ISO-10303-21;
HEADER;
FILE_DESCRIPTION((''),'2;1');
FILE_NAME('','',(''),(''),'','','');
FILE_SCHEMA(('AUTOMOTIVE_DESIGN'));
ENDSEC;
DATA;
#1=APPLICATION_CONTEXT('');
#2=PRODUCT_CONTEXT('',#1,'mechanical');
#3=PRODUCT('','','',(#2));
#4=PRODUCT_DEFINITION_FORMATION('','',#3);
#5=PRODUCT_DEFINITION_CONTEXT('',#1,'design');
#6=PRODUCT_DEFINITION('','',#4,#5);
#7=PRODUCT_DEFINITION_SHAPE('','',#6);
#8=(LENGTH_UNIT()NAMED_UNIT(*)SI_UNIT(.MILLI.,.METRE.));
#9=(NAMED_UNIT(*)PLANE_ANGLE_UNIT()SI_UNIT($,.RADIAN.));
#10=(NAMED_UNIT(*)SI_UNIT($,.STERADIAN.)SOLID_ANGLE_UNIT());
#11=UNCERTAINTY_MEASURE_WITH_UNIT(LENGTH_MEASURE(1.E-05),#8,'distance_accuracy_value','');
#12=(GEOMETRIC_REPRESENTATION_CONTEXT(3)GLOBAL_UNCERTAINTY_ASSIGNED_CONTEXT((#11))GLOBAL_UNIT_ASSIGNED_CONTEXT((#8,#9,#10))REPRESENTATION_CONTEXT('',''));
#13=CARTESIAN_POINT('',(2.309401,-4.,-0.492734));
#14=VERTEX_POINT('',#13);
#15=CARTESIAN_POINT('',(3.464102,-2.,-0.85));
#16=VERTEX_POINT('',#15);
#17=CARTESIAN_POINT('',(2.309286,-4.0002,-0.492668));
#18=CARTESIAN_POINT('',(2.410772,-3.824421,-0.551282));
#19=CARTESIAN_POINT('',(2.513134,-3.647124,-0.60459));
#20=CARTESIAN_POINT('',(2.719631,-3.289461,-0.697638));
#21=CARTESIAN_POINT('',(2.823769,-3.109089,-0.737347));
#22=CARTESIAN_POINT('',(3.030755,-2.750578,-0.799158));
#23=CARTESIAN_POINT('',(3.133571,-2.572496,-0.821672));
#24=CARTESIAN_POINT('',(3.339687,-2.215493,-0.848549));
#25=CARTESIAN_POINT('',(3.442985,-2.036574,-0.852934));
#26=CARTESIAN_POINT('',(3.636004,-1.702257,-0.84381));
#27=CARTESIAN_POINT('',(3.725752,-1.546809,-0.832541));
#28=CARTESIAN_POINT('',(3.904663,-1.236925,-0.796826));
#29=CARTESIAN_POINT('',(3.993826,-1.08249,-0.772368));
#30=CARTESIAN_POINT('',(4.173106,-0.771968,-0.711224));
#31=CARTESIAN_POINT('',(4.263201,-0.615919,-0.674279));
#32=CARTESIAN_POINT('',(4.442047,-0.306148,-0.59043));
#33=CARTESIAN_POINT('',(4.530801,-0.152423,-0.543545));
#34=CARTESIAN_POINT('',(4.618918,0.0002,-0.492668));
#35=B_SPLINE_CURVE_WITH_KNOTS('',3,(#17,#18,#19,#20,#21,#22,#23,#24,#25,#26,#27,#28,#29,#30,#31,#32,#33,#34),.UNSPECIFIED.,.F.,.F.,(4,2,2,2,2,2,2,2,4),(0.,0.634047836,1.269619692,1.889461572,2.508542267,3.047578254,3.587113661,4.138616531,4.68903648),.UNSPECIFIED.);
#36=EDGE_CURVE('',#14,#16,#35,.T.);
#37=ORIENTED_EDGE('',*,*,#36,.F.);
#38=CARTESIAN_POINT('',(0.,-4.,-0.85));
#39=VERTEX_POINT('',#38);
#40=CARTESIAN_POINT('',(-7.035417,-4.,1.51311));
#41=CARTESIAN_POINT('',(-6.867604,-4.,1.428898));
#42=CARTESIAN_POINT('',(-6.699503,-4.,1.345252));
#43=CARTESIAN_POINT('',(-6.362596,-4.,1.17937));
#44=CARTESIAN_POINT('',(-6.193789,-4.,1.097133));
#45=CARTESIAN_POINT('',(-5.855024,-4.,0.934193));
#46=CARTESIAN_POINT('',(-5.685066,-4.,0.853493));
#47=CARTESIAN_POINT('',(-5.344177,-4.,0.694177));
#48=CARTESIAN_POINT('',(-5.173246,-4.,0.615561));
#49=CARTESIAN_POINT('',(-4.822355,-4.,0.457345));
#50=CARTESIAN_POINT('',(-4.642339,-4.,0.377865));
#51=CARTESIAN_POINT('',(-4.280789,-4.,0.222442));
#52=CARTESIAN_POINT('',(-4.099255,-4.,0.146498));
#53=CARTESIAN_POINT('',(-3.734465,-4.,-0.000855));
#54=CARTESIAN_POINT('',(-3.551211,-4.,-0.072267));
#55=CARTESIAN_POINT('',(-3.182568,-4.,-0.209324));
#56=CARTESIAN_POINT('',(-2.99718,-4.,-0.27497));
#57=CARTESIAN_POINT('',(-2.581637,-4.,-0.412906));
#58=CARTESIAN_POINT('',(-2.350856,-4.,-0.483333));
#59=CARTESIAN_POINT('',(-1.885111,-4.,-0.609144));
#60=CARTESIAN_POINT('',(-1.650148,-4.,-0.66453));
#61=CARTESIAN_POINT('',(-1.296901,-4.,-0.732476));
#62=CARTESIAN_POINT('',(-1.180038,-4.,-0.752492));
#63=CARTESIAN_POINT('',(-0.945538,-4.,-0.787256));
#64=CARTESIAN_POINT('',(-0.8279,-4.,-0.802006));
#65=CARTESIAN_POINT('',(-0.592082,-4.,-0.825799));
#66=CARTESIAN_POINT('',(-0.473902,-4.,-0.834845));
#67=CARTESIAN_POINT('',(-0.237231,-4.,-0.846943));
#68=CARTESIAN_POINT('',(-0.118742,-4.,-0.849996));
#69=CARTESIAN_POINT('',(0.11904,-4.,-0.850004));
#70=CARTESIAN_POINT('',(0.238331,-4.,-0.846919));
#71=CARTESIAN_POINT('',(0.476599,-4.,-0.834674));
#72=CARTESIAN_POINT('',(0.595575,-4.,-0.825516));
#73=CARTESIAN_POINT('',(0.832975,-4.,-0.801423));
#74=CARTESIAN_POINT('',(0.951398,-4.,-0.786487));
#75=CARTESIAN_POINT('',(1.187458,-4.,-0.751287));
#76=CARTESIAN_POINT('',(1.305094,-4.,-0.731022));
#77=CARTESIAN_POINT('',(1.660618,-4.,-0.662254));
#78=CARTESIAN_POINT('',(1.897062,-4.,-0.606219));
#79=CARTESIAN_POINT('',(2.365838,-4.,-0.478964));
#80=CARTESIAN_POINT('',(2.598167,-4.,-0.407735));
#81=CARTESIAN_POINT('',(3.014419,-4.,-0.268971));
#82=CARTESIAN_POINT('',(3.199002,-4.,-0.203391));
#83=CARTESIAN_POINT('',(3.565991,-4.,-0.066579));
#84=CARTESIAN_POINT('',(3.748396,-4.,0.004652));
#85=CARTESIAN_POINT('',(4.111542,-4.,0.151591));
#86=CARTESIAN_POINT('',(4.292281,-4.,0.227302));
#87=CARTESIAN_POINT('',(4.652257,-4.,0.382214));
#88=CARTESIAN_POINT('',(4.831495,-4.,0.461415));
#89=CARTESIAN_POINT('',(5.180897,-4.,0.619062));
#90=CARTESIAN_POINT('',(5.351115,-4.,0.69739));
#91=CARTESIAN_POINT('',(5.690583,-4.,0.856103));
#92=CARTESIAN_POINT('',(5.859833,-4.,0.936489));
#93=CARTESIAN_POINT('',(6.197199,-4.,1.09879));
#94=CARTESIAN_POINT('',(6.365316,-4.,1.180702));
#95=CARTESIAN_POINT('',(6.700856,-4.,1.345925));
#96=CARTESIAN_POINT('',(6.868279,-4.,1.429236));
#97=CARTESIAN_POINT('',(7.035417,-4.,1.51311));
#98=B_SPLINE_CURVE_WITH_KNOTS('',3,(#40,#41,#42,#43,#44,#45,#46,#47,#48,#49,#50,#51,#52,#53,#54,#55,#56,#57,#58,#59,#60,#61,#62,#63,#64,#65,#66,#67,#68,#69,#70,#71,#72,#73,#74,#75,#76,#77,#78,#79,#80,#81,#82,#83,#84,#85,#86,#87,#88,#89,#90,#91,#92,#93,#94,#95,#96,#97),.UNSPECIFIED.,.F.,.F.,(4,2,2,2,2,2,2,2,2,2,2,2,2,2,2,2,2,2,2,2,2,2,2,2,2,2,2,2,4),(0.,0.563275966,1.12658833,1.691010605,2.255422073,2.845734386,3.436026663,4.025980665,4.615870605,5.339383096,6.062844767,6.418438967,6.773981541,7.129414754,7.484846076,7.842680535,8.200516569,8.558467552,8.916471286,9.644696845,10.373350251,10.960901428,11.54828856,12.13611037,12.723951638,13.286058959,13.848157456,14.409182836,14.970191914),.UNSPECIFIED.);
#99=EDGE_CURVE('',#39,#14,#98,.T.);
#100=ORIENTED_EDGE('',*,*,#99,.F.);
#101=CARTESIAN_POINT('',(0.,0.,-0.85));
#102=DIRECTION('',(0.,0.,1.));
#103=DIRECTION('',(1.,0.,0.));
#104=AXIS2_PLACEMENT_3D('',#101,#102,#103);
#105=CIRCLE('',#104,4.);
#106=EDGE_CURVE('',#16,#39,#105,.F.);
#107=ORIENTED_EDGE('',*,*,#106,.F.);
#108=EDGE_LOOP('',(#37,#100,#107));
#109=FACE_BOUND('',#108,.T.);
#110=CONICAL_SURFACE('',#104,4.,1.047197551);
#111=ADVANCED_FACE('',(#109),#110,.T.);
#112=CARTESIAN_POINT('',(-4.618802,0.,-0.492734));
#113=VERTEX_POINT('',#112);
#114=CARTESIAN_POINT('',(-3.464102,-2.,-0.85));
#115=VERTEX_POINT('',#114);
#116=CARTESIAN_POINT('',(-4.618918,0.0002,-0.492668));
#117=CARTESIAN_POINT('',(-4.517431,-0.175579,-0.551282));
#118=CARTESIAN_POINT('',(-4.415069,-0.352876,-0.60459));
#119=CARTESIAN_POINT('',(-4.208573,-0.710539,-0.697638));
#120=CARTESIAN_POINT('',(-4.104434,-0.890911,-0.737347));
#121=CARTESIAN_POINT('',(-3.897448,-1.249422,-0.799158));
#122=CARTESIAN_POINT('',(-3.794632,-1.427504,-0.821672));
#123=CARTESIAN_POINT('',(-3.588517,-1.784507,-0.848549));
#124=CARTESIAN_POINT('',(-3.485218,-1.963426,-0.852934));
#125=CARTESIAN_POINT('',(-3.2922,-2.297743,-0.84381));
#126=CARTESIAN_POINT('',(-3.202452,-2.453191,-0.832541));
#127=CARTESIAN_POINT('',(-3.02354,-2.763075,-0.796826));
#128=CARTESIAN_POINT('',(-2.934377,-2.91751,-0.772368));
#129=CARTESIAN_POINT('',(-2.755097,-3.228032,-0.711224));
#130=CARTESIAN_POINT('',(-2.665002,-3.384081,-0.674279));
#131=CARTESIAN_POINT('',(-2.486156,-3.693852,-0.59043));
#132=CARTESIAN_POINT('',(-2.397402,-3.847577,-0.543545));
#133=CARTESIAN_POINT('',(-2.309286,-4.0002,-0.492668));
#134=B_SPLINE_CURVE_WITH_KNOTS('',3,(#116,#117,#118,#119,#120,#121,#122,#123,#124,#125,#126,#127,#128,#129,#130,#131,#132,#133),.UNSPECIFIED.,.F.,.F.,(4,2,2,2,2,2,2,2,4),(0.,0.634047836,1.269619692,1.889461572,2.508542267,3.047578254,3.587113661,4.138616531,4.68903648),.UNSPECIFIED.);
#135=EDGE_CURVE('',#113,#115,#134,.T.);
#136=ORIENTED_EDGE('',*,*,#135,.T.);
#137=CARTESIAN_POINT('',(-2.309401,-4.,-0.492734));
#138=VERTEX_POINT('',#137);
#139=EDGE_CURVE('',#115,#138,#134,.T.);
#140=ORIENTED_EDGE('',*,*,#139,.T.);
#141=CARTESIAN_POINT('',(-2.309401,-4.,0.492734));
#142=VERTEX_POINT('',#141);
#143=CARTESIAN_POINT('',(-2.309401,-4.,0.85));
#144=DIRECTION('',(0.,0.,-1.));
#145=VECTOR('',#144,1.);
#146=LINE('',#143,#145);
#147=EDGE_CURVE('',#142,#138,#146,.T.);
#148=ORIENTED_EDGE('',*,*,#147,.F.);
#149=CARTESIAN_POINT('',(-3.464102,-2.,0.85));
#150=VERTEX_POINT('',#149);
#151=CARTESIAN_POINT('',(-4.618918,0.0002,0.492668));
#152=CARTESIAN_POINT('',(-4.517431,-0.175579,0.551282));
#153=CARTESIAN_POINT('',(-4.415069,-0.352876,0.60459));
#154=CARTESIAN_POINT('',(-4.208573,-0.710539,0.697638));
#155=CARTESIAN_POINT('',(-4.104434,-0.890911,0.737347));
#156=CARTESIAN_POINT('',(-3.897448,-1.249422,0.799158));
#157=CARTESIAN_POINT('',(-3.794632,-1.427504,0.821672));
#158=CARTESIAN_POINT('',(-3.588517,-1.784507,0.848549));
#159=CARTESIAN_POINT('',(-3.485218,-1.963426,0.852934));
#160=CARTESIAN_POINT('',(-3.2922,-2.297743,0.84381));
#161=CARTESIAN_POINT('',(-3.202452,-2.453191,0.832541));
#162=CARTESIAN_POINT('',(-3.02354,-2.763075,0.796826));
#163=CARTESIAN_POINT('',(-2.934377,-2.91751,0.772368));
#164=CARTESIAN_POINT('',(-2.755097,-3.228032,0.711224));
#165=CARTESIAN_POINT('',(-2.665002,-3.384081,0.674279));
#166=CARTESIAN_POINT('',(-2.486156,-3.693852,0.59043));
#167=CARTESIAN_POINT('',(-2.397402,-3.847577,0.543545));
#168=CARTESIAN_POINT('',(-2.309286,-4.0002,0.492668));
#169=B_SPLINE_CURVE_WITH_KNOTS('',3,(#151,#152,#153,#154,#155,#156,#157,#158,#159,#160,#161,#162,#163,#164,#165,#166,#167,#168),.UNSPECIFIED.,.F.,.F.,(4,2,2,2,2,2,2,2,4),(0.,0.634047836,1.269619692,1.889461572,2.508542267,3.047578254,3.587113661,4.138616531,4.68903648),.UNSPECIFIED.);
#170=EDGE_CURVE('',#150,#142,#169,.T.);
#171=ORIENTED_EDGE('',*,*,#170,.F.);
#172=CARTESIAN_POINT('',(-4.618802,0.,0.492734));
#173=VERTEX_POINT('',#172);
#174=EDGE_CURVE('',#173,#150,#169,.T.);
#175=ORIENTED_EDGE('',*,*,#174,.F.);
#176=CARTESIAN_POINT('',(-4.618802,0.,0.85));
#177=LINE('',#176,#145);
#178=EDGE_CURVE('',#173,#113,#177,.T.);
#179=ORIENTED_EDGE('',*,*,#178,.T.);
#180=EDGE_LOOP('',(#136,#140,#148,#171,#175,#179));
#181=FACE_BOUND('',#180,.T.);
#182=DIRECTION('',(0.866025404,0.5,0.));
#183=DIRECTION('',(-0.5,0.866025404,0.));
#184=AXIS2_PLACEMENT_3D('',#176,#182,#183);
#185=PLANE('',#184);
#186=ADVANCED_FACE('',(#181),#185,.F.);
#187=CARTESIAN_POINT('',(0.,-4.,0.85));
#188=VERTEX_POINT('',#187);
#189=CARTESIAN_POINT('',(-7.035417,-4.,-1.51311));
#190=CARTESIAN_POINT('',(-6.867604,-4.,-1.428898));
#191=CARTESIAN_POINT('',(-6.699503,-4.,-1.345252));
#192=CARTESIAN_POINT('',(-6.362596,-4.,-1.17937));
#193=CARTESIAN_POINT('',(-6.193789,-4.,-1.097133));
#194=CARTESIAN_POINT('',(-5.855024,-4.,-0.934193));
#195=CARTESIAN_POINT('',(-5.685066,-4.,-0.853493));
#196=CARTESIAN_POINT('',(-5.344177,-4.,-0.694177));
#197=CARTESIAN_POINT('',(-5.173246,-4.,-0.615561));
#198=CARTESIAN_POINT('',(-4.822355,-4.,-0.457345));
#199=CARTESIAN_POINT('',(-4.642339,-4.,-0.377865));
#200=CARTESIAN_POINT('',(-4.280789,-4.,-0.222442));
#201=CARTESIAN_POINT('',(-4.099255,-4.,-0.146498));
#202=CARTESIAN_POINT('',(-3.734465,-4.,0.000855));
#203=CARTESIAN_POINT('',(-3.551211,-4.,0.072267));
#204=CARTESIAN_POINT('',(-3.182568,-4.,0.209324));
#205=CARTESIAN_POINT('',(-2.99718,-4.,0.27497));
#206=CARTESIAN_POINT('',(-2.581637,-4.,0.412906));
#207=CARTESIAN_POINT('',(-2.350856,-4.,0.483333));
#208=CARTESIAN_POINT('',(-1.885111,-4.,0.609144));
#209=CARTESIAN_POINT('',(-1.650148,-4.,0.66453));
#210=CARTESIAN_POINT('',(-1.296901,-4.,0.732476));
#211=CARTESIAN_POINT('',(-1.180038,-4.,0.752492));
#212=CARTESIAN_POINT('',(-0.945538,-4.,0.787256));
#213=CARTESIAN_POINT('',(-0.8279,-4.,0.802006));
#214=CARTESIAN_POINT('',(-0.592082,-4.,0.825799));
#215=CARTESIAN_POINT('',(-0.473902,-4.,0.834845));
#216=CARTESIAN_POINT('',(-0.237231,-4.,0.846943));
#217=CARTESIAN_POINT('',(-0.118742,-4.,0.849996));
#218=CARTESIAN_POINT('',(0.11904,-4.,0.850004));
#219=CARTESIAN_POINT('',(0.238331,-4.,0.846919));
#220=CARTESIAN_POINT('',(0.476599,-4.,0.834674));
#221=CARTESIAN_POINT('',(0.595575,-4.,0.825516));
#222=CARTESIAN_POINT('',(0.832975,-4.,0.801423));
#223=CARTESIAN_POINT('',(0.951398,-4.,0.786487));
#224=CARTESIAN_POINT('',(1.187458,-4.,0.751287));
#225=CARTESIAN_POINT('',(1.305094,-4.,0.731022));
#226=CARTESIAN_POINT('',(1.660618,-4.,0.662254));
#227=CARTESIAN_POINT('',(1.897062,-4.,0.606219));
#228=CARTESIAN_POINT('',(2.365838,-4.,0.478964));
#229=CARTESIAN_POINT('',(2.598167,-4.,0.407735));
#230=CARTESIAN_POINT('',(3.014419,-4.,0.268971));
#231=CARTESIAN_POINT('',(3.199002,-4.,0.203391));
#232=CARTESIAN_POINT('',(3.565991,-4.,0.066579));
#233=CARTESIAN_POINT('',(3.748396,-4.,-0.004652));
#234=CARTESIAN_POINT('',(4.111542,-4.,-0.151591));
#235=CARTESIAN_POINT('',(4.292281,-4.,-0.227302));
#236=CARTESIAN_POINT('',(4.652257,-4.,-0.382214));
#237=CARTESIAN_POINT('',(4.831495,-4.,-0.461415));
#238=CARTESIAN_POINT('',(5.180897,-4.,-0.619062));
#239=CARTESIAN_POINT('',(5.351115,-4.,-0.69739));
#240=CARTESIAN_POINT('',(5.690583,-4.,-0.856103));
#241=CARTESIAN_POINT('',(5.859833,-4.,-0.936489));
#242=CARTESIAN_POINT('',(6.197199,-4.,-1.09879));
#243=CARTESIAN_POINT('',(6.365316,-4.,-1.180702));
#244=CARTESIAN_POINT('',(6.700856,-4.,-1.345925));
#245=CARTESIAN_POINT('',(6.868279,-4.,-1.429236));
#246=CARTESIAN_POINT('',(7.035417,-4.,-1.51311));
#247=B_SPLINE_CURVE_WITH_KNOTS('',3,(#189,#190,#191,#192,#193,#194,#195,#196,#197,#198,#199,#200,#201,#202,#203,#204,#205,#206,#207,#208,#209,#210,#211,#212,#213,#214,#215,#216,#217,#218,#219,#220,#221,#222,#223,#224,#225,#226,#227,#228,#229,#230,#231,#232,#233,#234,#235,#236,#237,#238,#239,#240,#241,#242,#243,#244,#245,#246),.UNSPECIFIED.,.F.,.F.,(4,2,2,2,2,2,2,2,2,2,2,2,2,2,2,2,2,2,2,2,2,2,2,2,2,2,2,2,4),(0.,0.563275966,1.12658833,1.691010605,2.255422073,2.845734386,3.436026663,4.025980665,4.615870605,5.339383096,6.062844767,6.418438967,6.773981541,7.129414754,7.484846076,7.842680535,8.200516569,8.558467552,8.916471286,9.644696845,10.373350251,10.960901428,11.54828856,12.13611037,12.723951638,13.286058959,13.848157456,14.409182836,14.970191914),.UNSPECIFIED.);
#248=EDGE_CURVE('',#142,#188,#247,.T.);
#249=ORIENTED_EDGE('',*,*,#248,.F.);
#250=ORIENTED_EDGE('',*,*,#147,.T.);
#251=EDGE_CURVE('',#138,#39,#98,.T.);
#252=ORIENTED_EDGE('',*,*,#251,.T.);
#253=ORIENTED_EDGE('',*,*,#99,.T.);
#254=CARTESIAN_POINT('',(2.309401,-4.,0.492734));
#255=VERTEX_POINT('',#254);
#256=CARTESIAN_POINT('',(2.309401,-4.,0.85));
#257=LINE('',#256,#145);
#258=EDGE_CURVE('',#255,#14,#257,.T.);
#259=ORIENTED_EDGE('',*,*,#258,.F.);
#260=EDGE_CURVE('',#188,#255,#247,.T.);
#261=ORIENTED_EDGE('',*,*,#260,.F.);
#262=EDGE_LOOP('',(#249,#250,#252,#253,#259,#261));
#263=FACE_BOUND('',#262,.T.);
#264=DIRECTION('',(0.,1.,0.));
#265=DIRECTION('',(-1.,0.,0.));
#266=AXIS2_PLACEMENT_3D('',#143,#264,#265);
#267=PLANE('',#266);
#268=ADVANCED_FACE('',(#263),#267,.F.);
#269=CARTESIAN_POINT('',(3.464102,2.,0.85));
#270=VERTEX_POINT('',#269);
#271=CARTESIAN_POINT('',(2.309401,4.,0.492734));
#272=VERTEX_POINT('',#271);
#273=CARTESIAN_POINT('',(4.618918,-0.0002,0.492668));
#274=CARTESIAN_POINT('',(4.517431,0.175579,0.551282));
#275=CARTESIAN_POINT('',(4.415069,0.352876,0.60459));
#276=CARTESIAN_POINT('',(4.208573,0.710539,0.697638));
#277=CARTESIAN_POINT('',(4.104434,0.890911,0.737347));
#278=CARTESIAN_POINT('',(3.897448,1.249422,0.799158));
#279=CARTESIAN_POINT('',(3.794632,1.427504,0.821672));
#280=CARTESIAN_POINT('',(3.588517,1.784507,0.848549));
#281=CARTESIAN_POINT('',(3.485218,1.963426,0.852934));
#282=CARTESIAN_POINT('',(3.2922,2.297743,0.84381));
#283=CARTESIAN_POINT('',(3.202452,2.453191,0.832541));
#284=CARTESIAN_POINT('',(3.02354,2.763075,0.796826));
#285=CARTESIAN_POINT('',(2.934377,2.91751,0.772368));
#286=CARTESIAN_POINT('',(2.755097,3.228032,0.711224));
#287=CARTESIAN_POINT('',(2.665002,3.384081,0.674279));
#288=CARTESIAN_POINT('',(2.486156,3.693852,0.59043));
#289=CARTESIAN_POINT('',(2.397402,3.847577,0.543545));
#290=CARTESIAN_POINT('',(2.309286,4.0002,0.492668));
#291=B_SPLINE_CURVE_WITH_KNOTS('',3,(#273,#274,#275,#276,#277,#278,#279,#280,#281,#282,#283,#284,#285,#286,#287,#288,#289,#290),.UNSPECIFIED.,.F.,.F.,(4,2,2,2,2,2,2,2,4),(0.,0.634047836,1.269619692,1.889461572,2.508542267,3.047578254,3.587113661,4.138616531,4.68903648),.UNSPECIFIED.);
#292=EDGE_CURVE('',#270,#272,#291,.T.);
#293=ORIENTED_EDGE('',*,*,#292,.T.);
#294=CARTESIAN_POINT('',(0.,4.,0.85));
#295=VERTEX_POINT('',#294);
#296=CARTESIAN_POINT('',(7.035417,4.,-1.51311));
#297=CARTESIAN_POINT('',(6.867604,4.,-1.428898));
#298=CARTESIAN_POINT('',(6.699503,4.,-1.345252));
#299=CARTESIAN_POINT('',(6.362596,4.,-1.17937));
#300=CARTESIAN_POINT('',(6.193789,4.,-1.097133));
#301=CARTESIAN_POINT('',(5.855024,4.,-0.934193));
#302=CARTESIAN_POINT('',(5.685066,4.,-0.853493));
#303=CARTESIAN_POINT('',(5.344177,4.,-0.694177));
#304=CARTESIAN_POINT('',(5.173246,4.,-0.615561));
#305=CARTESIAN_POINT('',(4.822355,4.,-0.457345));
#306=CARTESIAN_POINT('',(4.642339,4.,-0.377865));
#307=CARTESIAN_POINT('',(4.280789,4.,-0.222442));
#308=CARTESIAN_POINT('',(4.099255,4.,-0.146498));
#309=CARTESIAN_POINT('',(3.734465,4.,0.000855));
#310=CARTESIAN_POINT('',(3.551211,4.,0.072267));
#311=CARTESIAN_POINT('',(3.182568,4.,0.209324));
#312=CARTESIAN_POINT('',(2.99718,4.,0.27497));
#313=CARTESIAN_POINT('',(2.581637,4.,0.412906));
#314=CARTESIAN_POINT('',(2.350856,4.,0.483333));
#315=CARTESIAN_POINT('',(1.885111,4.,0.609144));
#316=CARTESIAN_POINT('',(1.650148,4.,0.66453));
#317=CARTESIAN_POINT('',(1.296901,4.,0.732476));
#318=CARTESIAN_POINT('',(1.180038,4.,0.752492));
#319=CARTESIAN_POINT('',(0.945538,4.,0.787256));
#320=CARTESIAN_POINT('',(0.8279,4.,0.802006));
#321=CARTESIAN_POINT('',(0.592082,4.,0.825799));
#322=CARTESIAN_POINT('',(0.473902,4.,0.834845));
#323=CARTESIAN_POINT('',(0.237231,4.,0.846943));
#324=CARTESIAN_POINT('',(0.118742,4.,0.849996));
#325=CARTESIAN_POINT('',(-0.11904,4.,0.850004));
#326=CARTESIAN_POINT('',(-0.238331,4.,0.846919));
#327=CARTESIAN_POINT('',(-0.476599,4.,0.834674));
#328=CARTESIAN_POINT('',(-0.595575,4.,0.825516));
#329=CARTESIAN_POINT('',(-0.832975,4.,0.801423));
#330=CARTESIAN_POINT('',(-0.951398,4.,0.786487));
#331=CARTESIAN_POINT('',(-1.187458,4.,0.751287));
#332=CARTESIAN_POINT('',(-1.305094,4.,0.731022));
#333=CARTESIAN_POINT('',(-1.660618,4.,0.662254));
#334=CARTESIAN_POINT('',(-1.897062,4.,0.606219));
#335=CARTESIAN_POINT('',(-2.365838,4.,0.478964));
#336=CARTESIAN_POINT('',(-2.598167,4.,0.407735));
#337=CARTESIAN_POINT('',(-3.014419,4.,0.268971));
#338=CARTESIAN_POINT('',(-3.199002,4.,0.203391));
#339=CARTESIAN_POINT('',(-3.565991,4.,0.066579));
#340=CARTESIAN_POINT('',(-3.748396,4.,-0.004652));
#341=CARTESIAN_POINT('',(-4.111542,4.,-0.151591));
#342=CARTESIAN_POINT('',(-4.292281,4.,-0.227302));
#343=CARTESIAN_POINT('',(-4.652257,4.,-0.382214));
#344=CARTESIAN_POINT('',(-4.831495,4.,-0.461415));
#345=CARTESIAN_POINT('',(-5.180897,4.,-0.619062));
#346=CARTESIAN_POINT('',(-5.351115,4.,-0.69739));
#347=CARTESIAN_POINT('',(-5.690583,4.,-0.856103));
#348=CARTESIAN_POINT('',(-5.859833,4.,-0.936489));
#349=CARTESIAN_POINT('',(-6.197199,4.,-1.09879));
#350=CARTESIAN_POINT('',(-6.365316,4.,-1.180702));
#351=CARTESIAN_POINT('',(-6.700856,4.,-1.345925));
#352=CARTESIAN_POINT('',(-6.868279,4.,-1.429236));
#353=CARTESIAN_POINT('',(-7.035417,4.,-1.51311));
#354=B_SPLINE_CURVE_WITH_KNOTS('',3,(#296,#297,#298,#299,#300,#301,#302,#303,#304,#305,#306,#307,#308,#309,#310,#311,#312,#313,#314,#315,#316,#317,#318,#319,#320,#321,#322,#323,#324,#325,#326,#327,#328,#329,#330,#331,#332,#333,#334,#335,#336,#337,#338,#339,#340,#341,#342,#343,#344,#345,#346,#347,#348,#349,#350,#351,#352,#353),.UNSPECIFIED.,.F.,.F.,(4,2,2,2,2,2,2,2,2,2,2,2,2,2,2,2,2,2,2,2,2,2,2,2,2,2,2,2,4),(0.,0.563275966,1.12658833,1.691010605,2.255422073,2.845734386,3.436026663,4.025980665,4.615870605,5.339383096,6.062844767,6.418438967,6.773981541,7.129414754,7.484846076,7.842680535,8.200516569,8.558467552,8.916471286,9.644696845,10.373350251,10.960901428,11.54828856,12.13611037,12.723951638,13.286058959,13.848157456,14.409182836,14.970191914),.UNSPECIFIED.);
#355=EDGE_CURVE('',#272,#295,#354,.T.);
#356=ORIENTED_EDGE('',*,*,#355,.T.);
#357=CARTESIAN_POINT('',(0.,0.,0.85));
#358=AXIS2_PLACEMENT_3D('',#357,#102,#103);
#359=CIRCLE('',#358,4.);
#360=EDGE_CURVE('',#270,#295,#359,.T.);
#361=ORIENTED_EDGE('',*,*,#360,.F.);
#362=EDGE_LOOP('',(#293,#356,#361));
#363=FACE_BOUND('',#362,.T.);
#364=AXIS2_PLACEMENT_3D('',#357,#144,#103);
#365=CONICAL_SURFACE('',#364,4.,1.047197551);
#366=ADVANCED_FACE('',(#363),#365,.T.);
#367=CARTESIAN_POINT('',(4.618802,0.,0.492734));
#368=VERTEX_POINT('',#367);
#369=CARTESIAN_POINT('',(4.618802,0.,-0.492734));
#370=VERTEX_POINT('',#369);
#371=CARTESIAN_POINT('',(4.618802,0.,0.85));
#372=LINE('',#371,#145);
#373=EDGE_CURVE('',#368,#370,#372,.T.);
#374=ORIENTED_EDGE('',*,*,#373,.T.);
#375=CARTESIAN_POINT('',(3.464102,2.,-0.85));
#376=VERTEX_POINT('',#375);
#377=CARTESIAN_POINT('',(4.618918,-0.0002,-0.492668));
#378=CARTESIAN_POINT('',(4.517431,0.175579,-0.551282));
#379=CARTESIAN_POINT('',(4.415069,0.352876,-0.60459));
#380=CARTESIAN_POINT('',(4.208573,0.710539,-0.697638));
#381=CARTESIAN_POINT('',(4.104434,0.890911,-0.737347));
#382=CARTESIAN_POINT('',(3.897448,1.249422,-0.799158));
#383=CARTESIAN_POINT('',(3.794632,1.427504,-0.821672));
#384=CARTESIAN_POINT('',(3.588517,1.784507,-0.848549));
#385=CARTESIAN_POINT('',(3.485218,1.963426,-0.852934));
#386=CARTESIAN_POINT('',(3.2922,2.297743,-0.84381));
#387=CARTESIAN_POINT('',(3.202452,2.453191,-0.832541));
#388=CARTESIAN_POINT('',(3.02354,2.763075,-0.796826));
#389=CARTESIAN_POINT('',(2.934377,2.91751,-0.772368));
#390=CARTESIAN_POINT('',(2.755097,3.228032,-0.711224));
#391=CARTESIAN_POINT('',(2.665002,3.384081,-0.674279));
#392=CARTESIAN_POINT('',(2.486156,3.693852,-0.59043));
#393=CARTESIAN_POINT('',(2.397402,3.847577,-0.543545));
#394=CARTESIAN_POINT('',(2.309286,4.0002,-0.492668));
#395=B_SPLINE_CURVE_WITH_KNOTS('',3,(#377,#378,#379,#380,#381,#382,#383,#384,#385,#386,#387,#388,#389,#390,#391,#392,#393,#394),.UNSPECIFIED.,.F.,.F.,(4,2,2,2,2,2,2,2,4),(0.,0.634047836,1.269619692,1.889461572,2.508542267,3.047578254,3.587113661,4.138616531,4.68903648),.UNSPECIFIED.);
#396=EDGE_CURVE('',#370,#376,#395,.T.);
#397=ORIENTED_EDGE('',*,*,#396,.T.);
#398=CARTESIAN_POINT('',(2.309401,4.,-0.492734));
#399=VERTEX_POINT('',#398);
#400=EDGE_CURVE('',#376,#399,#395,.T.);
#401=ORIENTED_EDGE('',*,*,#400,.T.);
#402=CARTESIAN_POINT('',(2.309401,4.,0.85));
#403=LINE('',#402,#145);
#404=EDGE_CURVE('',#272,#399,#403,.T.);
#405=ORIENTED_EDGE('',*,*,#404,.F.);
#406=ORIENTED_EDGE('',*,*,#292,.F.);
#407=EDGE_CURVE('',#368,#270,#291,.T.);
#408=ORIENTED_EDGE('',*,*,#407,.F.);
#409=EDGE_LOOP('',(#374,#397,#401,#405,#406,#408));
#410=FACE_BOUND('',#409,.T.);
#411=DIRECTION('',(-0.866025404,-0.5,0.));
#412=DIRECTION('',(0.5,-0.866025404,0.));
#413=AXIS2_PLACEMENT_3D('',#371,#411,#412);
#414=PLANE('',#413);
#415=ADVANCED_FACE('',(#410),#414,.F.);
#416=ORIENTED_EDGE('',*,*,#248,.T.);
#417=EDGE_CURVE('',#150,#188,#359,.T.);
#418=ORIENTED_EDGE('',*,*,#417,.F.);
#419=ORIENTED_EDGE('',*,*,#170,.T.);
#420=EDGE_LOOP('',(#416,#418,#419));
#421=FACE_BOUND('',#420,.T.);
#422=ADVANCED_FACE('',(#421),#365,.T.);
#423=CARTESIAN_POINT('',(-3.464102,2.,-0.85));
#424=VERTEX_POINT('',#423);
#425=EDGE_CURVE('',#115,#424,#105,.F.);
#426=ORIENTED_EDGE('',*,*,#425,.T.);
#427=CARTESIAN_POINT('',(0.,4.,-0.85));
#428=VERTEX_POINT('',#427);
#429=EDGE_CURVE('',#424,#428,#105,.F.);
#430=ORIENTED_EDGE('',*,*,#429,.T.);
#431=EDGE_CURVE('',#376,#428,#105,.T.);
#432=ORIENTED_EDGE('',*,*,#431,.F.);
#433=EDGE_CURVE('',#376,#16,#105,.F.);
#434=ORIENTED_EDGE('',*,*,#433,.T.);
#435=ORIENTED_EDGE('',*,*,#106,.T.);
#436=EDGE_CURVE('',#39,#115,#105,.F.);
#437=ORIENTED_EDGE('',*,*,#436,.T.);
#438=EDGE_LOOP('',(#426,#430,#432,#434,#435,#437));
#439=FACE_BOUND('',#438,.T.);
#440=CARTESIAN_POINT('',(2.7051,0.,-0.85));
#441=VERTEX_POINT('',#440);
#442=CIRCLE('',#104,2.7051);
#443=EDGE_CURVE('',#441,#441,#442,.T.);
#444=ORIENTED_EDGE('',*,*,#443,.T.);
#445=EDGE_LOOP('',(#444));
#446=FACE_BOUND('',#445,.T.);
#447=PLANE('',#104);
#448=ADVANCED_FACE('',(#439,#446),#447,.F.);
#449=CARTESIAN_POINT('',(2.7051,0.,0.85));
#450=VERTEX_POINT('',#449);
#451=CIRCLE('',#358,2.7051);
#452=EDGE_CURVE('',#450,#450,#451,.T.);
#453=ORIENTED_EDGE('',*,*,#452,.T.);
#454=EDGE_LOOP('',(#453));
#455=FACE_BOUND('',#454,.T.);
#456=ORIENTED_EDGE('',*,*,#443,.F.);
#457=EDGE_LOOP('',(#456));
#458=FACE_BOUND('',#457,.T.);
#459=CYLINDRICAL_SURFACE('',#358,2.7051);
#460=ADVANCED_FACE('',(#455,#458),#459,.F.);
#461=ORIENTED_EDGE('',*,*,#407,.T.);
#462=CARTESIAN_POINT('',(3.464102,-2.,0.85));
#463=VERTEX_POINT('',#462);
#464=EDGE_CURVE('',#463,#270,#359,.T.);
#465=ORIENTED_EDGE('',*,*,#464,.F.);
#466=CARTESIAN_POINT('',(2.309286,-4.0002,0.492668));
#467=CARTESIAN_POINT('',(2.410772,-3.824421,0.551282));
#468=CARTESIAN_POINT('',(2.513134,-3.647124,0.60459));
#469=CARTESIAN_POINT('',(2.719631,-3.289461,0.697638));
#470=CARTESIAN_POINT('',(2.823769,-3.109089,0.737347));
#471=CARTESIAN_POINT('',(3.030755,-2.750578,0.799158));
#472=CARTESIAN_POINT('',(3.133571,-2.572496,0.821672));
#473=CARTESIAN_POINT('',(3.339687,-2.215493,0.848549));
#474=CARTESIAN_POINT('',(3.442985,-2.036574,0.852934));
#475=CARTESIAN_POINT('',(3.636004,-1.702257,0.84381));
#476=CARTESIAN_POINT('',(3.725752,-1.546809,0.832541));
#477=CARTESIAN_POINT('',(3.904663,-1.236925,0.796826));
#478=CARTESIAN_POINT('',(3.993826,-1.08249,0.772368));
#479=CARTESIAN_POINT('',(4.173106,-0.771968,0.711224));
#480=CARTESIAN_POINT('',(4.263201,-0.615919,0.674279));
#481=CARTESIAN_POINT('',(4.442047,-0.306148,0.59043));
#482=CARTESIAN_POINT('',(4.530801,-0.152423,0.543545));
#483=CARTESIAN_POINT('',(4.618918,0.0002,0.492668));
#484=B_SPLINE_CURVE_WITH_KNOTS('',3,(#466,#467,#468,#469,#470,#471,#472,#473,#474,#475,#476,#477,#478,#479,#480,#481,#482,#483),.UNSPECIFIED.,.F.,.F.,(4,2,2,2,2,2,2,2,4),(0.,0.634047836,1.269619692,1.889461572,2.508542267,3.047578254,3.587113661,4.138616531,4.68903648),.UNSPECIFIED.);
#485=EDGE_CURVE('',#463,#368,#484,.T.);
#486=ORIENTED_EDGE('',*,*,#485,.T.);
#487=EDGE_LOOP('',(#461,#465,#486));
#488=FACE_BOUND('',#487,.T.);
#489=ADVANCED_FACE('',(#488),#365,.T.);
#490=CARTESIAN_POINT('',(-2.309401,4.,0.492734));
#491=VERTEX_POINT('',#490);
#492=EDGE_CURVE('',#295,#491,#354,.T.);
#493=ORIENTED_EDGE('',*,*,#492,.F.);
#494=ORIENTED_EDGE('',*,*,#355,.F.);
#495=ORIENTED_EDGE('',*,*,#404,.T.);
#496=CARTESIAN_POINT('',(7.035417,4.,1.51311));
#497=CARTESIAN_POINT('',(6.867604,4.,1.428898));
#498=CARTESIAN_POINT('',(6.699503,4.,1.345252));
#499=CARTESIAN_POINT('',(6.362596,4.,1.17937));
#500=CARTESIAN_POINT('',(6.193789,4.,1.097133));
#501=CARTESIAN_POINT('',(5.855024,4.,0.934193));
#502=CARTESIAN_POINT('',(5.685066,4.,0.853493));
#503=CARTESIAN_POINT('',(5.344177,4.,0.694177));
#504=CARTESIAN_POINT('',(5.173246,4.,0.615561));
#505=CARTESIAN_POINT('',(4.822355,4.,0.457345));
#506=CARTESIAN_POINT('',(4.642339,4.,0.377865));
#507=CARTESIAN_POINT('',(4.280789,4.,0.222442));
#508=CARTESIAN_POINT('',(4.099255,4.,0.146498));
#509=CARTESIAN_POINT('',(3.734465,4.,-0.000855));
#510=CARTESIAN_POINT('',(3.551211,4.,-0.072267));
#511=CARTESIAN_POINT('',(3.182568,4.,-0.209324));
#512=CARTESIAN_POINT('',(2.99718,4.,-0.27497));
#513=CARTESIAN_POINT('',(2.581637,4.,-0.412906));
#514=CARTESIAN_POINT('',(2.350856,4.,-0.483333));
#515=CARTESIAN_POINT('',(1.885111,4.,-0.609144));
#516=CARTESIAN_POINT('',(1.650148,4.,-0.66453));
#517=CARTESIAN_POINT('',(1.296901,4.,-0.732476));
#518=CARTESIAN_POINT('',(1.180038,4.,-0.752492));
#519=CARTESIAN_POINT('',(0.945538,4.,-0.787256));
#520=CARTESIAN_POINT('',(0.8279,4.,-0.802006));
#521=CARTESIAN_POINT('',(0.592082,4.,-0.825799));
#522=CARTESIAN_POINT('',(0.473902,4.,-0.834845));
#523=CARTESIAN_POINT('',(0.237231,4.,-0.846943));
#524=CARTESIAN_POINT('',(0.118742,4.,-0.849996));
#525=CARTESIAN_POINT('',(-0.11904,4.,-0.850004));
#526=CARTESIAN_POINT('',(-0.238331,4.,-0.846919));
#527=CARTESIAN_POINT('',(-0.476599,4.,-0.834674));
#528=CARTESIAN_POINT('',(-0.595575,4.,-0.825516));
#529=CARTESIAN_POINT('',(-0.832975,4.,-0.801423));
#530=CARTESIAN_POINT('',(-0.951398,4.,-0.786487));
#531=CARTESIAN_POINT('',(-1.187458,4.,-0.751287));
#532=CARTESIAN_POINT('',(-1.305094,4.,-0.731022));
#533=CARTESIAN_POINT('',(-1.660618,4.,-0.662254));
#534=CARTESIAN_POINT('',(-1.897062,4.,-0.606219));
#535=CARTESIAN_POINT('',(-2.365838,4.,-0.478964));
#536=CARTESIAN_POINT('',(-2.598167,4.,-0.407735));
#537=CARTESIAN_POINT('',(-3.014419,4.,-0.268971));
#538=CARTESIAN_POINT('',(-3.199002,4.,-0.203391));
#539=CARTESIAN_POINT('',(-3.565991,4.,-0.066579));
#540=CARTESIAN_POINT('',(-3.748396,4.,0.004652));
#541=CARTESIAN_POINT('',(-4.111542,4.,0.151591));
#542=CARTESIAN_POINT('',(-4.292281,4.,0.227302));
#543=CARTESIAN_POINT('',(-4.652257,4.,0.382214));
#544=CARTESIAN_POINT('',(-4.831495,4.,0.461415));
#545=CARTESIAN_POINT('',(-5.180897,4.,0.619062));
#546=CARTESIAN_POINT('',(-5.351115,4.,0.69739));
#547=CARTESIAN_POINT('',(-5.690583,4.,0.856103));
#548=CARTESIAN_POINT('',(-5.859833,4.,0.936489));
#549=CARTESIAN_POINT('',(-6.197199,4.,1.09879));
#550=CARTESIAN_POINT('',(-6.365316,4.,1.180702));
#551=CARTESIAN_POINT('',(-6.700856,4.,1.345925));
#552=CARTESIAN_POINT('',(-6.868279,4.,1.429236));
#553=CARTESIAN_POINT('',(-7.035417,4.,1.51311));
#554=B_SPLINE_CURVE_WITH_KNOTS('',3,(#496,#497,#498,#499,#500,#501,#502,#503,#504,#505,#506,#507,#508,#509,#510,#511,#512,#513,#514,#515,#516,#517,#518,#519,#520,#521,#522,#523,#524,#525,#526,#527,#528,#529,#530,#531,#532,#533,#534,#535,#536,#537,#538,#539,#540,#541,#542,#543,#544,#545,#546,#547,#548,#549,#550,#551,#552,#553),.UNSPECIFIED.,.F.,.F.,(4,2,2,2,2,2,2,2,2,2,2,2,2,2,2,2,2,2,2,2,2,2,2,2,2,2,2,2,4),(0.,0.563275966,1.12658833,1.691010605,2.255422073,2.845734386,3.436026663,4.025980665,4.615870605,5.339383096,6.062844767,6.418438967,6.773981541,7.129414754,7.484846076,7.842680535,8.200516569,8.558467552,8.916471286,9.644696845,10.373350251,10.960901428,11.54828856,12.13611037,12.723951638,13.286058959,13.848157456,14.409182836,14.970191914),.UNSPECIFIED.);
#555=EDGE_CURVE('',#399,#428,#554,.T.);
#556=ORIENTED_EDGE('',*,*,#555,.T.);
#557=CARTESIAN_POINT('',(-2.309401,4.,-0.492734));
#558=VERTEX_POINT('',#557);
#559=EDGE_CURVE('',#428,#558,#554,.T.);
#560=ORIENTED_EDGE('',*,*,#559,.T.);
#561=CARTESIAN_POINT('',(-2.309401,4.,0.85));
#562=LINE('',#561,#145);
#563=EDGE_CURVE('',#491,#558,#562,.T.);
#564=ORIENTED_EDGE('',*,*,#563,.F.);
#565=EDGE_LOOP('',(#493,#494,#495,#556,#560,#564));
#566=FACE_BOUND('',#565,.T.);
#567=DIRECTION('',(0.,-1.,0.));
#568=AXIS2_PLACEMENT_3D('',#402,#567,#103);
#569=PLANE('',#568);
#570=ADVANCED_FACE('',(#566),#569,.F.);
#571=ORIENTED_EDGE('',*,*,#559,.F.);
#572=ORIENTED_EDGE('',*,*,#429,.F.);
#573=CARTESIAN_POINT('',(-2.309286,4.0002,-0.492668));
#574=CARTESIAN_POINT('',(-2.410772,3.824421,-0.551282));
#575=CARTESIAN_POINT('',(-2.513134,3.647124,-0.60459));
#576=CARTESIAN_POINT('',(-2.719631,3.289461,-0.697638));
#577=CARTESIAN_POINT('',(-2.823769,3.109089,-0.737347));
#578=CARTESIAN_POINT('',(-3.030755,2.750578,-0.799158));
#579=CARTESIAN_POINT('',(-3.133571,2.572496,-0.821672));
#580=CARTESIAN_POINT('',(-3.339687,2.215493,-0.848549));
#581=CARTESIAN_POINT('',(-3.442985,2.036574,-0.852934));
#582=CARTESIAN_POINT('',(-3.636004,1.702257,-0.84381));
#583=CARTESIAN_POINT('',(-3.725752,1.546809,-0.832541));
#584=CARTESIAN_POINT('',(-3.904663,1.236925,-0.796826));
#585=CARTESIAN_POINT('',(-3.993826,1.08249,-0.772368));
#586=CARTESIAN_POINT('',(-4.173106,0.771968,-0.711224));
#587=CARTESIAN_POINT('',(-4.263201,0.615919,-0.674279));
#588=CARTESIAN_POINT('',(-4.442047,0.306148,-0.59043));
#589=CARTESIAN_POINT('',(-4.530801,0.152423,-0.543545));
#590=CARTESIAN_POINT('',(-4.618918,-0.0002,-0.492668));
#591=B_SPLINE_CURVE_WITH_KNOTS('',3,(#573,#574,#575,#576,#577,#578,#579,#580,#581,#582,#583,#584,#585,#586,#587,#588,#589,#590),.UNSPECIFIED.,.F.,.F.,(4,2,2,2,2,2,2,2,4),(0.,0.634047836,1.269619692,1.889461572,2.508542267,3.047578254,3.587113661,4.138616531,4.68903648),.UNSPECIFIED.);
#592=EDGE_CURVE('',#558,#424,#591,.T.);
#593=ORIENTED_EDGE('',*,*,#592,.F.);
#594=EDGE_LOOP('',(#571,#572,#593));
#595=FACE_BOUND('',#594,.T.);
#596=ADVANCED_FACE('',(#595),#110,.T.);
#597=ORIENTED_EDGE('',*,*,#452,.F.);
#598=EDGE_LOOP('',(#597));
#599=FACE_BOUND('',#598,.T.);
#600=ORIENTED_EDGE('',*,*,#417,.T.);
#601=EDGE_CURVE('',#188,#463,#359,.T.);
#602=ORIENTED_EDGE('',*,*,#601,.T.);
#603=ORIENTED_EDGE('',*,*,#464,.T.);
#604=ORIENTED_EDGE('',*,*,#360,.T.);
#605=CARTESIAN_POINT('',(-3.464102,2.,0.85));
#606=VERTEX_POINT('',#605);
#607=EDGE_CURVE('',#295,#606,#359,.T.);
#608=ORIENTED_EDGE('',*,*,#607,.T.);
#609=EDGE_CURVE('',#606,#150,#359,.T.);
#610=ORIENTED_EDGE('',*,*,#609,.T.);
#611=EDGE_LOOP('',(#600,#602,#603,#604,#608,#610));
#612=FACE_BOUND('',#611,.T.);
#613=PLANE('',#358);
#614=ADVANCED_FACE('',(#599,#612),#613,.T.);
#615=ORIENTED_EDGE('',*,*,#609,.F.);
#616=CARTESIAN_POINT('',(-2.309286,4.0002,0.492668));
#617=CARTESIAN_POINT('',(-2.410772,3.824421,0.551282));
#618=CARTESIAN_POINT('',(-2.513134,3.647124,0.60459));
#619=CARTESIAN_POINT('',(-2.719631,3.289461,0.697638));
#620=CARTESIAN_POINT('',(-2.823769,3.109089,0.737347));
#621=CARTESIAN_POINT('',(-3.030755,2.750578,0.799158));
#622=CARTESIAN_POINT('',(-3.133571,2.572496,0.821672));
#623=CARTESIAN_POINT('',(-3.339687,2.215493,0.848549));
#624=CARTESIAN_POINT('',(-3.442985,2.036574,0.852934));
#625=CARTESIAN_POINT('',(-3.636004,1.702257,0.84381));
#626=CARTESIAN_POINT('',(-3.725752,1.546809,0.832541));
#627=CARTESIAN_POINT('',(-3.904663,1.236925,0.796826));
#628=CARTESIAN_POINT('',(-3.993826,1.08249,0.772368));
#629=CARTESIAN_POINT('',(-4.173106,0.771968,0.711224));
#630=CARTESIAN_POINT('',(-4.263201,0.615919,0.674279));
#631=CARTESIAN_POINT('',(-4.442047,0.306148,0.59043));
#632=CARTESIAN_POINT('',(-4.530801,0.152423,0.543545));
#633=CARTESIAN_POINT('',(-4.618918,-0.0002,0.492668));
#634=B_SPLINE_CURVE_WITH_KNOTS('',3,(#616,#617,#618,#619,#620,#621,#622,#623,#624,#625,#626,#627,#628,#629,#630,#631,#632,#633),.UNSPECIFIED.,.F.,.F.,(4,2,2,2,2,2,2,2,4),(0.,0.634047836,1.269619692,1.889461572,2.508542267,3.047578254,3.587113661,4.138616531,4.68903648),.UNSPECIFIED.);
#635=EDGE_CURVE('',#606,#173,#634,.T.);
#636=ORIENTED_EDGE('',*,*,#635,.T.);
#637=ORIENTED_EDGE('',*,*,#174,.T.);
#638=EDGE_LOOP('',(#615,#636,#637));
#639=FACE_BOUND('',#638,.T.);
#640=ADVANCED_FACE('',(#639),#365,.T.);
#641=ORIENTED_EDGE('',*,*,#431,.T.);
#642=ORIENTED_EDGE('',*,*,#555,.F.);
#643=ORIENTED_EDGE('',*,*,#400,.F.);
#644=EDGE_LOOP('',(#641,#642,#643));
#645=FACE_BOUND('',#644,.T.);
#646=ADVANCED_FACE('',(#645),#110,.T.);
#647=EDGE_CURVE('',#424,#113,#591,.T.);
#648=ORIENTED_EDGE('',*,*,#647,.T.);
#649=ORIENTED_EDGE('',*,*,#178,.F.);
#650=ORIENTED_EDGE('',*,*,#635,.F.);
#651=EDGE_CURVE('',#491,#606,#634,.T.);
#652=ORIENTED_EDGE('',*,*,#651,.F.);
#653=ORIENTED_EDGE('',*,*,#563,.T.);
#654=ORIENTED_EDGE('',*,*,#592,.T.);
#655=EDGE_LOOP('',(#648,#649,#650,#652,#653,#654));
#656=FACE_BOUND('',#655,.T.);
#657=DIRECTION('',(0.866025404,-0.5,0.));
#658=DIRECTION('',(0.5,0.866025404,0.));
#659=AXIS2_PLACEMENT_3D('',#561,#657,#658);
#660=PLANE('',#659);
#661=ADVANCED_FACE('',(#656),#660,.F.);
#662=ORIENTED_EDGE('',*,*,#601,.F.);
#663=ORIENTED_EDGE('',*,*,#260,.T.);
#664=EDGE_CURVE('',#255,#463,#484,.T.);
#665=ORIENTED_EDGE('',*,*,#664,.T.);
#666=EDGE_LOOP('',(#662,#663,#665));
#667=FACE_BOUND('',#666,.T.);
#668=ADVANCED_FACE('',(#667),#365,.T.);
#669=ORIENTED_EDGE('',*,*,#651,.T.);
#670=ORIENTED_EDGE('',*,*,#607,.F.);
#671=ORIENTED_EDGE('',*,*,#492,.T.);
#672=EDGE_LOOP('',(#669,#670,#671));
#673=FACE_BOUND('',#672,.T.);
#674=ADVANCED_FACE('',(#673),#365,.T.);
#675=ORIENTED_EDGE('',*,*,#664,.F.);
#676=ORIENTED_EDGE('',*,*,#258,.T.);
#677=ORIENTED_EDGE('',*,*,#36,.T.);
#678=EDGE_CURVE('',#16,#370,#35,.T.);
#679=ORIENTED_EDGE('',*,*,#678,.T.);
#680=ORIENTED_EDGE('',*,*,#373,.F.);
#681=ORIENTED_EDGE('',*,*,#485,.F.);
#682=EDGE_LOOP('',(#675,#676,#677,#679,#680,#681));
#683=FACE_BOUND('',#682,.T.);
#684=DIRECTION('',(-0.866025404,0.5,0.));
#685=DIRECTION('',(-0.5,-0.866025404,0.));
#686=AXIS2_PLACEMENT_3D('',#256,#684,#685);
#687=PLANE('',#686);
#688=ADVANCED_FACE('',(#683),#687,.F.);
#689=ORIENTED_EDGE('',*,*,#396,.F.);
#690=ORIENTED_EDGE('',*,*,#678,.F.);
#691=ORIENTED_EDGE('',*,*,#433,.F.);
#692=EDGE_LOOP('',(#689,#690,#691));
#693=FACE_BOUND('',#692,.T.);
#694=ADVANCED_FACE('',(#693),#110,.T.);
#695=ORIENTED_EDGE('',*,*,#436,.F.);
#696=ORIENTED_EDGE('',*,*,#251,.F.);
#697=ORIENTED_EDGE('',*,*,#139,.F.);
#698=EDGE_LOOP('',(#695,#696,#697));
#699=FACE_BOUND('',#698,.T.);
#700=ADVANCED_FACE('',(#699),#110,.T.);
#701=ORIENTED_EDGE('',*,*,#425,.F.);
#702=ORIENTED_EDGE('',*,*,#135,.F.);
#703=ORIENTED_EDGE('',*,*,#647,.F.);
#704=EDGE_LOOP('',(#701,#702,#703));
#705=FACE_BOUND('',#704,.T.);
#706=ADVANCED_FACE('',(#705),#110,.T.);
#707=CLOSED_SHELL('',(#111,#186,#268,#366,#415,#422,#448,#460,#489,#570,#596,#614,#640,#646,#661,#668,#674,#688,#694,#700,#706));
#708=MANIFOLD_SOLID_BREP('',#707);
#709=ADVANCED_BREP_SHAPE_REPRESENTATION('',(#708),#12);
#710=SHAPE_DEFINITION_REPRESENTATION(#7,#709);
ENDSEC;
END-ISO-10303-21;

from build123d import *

# Parameters (mm, degrees)
BOSS_EXTRUDE1_DEPTH       = 0.85
SKETCH2_R                 = 15
SKETCH2_R_2               = 4
CUT_EXTRUDE_THIN2_DEPTH   = 1
CUT_EXTRUDE_THIN2_DRAFT   = -60
MIRROR1_COPY_1_SKETCH_R   = 15
MIRROR1_COPY_1_SKETCH_R_2 = 4
MIRROR1_COPY_1_DEPTH      = 1
MIRROR1_COPY_1_DRAFT      = -60
F_1_4_28_TAPPED_HOLE1_D   = 5.4102


with BuildPart() as part:
    # Sketch1 → Boss-Extrude1 (new, symmetric)
    with BuildSketch(Plane.XY):
        Polygon((2.309401077, 4), (-2.309401077, 4), (-4.618802154, 0), (-2.309401077, -4), (2.309401077, -4), (4.618802154, 0), align=None)
    extrude(amount=BOSS_EXTRUDE1_DEPTH, both=True)


with BuildPart() as cut_extrude_thin2_tool:
    # Sketch2 → Cut-Extrude-Thin2 (with draft: the straight prism first)
    with BuildSketch(Plane.XY.offset(0.85)):
        Circle(SKETCH2_R)
        Circle(SKETCH2_R_2, mode=Mode.SUBTRACT)
    extrude(amount=-CUT_EXTRUDE_THIN2_DEPTH)
    # Cut-Extrude-Thin2: the draft: its side faces are tilted about the plane it starts from
    cut_extrude_thin2_sides = [cut_extrude_thin2_tool.faces().sort_by_distance(p)[0] for p in [
        (-15, 0, 0.35),
        (-4, 0, 0.35),
    ]]
    draft(cut_extrude_thin2_sides, Plane.XY.offset(0.85), CUT_EXTRUDE_THIN2_DRAFT)


with BuildPart() as part_1:
    add(part.part)

    # Cut-Extrude-Thin2: cut by cut_extrude_thin2_tool
    add(cut_extrude_thin2_tool.part, mode=Mode.SUBTRACT)


with BuildPart() as mirror1_copy_1_tool:
    # Mirror1 copy 1 sketch → Mirror1 copy 1 (with draft: the straight prism first)
    with BuildSketch(Plane(origin=(0, 0, -0.85), x_dir=(1, 0, 0), z_dir=(0, 0, -1))):
        Circle(MIRROR1_COPY_1_SKETCH_R)
        Circle(MIRROR1_COPY_1_SKETCH_R_2, mode=Mode.SUBTRACT)
    extrude(amount=-MIRROR1_COPY_1_DEPTH)
    # Mirror1 copy 1: the draft: its side faces are tilted about the plane it starts from
    mirror1_copy_1_sides = [mirror1_copy_1_tool.faces().sort_by_distance(p)[0] for p in [
        (-15, 0, -0.35),
        (-4, 0, -0.35),
    ]]
    draft(mirror1_copy_1_sides, Plane(origin=(0, 0, -0.85), x_dir=(1, 0, 0), z_dir=(0, 0, -1)), MIRROR1_COPY_1_DRAFT)


with BuildPart() as part_2:
    add(part_1.part)

    # Mirror1 copy 1: cut by mirror1_copy_1_tool
    add(mirror1_copy_1_tool.part, mode=Mode.SUBTRACT)

    # 1/4-28 Tapped Hole1 (through all)
    with Locations(Plane.XY.offset(0.85)):
        with Locations((0, 0)):
            Hole(F_1_4_28_TAPPED_HOLE1_D / 2)


solid = part_2.part
